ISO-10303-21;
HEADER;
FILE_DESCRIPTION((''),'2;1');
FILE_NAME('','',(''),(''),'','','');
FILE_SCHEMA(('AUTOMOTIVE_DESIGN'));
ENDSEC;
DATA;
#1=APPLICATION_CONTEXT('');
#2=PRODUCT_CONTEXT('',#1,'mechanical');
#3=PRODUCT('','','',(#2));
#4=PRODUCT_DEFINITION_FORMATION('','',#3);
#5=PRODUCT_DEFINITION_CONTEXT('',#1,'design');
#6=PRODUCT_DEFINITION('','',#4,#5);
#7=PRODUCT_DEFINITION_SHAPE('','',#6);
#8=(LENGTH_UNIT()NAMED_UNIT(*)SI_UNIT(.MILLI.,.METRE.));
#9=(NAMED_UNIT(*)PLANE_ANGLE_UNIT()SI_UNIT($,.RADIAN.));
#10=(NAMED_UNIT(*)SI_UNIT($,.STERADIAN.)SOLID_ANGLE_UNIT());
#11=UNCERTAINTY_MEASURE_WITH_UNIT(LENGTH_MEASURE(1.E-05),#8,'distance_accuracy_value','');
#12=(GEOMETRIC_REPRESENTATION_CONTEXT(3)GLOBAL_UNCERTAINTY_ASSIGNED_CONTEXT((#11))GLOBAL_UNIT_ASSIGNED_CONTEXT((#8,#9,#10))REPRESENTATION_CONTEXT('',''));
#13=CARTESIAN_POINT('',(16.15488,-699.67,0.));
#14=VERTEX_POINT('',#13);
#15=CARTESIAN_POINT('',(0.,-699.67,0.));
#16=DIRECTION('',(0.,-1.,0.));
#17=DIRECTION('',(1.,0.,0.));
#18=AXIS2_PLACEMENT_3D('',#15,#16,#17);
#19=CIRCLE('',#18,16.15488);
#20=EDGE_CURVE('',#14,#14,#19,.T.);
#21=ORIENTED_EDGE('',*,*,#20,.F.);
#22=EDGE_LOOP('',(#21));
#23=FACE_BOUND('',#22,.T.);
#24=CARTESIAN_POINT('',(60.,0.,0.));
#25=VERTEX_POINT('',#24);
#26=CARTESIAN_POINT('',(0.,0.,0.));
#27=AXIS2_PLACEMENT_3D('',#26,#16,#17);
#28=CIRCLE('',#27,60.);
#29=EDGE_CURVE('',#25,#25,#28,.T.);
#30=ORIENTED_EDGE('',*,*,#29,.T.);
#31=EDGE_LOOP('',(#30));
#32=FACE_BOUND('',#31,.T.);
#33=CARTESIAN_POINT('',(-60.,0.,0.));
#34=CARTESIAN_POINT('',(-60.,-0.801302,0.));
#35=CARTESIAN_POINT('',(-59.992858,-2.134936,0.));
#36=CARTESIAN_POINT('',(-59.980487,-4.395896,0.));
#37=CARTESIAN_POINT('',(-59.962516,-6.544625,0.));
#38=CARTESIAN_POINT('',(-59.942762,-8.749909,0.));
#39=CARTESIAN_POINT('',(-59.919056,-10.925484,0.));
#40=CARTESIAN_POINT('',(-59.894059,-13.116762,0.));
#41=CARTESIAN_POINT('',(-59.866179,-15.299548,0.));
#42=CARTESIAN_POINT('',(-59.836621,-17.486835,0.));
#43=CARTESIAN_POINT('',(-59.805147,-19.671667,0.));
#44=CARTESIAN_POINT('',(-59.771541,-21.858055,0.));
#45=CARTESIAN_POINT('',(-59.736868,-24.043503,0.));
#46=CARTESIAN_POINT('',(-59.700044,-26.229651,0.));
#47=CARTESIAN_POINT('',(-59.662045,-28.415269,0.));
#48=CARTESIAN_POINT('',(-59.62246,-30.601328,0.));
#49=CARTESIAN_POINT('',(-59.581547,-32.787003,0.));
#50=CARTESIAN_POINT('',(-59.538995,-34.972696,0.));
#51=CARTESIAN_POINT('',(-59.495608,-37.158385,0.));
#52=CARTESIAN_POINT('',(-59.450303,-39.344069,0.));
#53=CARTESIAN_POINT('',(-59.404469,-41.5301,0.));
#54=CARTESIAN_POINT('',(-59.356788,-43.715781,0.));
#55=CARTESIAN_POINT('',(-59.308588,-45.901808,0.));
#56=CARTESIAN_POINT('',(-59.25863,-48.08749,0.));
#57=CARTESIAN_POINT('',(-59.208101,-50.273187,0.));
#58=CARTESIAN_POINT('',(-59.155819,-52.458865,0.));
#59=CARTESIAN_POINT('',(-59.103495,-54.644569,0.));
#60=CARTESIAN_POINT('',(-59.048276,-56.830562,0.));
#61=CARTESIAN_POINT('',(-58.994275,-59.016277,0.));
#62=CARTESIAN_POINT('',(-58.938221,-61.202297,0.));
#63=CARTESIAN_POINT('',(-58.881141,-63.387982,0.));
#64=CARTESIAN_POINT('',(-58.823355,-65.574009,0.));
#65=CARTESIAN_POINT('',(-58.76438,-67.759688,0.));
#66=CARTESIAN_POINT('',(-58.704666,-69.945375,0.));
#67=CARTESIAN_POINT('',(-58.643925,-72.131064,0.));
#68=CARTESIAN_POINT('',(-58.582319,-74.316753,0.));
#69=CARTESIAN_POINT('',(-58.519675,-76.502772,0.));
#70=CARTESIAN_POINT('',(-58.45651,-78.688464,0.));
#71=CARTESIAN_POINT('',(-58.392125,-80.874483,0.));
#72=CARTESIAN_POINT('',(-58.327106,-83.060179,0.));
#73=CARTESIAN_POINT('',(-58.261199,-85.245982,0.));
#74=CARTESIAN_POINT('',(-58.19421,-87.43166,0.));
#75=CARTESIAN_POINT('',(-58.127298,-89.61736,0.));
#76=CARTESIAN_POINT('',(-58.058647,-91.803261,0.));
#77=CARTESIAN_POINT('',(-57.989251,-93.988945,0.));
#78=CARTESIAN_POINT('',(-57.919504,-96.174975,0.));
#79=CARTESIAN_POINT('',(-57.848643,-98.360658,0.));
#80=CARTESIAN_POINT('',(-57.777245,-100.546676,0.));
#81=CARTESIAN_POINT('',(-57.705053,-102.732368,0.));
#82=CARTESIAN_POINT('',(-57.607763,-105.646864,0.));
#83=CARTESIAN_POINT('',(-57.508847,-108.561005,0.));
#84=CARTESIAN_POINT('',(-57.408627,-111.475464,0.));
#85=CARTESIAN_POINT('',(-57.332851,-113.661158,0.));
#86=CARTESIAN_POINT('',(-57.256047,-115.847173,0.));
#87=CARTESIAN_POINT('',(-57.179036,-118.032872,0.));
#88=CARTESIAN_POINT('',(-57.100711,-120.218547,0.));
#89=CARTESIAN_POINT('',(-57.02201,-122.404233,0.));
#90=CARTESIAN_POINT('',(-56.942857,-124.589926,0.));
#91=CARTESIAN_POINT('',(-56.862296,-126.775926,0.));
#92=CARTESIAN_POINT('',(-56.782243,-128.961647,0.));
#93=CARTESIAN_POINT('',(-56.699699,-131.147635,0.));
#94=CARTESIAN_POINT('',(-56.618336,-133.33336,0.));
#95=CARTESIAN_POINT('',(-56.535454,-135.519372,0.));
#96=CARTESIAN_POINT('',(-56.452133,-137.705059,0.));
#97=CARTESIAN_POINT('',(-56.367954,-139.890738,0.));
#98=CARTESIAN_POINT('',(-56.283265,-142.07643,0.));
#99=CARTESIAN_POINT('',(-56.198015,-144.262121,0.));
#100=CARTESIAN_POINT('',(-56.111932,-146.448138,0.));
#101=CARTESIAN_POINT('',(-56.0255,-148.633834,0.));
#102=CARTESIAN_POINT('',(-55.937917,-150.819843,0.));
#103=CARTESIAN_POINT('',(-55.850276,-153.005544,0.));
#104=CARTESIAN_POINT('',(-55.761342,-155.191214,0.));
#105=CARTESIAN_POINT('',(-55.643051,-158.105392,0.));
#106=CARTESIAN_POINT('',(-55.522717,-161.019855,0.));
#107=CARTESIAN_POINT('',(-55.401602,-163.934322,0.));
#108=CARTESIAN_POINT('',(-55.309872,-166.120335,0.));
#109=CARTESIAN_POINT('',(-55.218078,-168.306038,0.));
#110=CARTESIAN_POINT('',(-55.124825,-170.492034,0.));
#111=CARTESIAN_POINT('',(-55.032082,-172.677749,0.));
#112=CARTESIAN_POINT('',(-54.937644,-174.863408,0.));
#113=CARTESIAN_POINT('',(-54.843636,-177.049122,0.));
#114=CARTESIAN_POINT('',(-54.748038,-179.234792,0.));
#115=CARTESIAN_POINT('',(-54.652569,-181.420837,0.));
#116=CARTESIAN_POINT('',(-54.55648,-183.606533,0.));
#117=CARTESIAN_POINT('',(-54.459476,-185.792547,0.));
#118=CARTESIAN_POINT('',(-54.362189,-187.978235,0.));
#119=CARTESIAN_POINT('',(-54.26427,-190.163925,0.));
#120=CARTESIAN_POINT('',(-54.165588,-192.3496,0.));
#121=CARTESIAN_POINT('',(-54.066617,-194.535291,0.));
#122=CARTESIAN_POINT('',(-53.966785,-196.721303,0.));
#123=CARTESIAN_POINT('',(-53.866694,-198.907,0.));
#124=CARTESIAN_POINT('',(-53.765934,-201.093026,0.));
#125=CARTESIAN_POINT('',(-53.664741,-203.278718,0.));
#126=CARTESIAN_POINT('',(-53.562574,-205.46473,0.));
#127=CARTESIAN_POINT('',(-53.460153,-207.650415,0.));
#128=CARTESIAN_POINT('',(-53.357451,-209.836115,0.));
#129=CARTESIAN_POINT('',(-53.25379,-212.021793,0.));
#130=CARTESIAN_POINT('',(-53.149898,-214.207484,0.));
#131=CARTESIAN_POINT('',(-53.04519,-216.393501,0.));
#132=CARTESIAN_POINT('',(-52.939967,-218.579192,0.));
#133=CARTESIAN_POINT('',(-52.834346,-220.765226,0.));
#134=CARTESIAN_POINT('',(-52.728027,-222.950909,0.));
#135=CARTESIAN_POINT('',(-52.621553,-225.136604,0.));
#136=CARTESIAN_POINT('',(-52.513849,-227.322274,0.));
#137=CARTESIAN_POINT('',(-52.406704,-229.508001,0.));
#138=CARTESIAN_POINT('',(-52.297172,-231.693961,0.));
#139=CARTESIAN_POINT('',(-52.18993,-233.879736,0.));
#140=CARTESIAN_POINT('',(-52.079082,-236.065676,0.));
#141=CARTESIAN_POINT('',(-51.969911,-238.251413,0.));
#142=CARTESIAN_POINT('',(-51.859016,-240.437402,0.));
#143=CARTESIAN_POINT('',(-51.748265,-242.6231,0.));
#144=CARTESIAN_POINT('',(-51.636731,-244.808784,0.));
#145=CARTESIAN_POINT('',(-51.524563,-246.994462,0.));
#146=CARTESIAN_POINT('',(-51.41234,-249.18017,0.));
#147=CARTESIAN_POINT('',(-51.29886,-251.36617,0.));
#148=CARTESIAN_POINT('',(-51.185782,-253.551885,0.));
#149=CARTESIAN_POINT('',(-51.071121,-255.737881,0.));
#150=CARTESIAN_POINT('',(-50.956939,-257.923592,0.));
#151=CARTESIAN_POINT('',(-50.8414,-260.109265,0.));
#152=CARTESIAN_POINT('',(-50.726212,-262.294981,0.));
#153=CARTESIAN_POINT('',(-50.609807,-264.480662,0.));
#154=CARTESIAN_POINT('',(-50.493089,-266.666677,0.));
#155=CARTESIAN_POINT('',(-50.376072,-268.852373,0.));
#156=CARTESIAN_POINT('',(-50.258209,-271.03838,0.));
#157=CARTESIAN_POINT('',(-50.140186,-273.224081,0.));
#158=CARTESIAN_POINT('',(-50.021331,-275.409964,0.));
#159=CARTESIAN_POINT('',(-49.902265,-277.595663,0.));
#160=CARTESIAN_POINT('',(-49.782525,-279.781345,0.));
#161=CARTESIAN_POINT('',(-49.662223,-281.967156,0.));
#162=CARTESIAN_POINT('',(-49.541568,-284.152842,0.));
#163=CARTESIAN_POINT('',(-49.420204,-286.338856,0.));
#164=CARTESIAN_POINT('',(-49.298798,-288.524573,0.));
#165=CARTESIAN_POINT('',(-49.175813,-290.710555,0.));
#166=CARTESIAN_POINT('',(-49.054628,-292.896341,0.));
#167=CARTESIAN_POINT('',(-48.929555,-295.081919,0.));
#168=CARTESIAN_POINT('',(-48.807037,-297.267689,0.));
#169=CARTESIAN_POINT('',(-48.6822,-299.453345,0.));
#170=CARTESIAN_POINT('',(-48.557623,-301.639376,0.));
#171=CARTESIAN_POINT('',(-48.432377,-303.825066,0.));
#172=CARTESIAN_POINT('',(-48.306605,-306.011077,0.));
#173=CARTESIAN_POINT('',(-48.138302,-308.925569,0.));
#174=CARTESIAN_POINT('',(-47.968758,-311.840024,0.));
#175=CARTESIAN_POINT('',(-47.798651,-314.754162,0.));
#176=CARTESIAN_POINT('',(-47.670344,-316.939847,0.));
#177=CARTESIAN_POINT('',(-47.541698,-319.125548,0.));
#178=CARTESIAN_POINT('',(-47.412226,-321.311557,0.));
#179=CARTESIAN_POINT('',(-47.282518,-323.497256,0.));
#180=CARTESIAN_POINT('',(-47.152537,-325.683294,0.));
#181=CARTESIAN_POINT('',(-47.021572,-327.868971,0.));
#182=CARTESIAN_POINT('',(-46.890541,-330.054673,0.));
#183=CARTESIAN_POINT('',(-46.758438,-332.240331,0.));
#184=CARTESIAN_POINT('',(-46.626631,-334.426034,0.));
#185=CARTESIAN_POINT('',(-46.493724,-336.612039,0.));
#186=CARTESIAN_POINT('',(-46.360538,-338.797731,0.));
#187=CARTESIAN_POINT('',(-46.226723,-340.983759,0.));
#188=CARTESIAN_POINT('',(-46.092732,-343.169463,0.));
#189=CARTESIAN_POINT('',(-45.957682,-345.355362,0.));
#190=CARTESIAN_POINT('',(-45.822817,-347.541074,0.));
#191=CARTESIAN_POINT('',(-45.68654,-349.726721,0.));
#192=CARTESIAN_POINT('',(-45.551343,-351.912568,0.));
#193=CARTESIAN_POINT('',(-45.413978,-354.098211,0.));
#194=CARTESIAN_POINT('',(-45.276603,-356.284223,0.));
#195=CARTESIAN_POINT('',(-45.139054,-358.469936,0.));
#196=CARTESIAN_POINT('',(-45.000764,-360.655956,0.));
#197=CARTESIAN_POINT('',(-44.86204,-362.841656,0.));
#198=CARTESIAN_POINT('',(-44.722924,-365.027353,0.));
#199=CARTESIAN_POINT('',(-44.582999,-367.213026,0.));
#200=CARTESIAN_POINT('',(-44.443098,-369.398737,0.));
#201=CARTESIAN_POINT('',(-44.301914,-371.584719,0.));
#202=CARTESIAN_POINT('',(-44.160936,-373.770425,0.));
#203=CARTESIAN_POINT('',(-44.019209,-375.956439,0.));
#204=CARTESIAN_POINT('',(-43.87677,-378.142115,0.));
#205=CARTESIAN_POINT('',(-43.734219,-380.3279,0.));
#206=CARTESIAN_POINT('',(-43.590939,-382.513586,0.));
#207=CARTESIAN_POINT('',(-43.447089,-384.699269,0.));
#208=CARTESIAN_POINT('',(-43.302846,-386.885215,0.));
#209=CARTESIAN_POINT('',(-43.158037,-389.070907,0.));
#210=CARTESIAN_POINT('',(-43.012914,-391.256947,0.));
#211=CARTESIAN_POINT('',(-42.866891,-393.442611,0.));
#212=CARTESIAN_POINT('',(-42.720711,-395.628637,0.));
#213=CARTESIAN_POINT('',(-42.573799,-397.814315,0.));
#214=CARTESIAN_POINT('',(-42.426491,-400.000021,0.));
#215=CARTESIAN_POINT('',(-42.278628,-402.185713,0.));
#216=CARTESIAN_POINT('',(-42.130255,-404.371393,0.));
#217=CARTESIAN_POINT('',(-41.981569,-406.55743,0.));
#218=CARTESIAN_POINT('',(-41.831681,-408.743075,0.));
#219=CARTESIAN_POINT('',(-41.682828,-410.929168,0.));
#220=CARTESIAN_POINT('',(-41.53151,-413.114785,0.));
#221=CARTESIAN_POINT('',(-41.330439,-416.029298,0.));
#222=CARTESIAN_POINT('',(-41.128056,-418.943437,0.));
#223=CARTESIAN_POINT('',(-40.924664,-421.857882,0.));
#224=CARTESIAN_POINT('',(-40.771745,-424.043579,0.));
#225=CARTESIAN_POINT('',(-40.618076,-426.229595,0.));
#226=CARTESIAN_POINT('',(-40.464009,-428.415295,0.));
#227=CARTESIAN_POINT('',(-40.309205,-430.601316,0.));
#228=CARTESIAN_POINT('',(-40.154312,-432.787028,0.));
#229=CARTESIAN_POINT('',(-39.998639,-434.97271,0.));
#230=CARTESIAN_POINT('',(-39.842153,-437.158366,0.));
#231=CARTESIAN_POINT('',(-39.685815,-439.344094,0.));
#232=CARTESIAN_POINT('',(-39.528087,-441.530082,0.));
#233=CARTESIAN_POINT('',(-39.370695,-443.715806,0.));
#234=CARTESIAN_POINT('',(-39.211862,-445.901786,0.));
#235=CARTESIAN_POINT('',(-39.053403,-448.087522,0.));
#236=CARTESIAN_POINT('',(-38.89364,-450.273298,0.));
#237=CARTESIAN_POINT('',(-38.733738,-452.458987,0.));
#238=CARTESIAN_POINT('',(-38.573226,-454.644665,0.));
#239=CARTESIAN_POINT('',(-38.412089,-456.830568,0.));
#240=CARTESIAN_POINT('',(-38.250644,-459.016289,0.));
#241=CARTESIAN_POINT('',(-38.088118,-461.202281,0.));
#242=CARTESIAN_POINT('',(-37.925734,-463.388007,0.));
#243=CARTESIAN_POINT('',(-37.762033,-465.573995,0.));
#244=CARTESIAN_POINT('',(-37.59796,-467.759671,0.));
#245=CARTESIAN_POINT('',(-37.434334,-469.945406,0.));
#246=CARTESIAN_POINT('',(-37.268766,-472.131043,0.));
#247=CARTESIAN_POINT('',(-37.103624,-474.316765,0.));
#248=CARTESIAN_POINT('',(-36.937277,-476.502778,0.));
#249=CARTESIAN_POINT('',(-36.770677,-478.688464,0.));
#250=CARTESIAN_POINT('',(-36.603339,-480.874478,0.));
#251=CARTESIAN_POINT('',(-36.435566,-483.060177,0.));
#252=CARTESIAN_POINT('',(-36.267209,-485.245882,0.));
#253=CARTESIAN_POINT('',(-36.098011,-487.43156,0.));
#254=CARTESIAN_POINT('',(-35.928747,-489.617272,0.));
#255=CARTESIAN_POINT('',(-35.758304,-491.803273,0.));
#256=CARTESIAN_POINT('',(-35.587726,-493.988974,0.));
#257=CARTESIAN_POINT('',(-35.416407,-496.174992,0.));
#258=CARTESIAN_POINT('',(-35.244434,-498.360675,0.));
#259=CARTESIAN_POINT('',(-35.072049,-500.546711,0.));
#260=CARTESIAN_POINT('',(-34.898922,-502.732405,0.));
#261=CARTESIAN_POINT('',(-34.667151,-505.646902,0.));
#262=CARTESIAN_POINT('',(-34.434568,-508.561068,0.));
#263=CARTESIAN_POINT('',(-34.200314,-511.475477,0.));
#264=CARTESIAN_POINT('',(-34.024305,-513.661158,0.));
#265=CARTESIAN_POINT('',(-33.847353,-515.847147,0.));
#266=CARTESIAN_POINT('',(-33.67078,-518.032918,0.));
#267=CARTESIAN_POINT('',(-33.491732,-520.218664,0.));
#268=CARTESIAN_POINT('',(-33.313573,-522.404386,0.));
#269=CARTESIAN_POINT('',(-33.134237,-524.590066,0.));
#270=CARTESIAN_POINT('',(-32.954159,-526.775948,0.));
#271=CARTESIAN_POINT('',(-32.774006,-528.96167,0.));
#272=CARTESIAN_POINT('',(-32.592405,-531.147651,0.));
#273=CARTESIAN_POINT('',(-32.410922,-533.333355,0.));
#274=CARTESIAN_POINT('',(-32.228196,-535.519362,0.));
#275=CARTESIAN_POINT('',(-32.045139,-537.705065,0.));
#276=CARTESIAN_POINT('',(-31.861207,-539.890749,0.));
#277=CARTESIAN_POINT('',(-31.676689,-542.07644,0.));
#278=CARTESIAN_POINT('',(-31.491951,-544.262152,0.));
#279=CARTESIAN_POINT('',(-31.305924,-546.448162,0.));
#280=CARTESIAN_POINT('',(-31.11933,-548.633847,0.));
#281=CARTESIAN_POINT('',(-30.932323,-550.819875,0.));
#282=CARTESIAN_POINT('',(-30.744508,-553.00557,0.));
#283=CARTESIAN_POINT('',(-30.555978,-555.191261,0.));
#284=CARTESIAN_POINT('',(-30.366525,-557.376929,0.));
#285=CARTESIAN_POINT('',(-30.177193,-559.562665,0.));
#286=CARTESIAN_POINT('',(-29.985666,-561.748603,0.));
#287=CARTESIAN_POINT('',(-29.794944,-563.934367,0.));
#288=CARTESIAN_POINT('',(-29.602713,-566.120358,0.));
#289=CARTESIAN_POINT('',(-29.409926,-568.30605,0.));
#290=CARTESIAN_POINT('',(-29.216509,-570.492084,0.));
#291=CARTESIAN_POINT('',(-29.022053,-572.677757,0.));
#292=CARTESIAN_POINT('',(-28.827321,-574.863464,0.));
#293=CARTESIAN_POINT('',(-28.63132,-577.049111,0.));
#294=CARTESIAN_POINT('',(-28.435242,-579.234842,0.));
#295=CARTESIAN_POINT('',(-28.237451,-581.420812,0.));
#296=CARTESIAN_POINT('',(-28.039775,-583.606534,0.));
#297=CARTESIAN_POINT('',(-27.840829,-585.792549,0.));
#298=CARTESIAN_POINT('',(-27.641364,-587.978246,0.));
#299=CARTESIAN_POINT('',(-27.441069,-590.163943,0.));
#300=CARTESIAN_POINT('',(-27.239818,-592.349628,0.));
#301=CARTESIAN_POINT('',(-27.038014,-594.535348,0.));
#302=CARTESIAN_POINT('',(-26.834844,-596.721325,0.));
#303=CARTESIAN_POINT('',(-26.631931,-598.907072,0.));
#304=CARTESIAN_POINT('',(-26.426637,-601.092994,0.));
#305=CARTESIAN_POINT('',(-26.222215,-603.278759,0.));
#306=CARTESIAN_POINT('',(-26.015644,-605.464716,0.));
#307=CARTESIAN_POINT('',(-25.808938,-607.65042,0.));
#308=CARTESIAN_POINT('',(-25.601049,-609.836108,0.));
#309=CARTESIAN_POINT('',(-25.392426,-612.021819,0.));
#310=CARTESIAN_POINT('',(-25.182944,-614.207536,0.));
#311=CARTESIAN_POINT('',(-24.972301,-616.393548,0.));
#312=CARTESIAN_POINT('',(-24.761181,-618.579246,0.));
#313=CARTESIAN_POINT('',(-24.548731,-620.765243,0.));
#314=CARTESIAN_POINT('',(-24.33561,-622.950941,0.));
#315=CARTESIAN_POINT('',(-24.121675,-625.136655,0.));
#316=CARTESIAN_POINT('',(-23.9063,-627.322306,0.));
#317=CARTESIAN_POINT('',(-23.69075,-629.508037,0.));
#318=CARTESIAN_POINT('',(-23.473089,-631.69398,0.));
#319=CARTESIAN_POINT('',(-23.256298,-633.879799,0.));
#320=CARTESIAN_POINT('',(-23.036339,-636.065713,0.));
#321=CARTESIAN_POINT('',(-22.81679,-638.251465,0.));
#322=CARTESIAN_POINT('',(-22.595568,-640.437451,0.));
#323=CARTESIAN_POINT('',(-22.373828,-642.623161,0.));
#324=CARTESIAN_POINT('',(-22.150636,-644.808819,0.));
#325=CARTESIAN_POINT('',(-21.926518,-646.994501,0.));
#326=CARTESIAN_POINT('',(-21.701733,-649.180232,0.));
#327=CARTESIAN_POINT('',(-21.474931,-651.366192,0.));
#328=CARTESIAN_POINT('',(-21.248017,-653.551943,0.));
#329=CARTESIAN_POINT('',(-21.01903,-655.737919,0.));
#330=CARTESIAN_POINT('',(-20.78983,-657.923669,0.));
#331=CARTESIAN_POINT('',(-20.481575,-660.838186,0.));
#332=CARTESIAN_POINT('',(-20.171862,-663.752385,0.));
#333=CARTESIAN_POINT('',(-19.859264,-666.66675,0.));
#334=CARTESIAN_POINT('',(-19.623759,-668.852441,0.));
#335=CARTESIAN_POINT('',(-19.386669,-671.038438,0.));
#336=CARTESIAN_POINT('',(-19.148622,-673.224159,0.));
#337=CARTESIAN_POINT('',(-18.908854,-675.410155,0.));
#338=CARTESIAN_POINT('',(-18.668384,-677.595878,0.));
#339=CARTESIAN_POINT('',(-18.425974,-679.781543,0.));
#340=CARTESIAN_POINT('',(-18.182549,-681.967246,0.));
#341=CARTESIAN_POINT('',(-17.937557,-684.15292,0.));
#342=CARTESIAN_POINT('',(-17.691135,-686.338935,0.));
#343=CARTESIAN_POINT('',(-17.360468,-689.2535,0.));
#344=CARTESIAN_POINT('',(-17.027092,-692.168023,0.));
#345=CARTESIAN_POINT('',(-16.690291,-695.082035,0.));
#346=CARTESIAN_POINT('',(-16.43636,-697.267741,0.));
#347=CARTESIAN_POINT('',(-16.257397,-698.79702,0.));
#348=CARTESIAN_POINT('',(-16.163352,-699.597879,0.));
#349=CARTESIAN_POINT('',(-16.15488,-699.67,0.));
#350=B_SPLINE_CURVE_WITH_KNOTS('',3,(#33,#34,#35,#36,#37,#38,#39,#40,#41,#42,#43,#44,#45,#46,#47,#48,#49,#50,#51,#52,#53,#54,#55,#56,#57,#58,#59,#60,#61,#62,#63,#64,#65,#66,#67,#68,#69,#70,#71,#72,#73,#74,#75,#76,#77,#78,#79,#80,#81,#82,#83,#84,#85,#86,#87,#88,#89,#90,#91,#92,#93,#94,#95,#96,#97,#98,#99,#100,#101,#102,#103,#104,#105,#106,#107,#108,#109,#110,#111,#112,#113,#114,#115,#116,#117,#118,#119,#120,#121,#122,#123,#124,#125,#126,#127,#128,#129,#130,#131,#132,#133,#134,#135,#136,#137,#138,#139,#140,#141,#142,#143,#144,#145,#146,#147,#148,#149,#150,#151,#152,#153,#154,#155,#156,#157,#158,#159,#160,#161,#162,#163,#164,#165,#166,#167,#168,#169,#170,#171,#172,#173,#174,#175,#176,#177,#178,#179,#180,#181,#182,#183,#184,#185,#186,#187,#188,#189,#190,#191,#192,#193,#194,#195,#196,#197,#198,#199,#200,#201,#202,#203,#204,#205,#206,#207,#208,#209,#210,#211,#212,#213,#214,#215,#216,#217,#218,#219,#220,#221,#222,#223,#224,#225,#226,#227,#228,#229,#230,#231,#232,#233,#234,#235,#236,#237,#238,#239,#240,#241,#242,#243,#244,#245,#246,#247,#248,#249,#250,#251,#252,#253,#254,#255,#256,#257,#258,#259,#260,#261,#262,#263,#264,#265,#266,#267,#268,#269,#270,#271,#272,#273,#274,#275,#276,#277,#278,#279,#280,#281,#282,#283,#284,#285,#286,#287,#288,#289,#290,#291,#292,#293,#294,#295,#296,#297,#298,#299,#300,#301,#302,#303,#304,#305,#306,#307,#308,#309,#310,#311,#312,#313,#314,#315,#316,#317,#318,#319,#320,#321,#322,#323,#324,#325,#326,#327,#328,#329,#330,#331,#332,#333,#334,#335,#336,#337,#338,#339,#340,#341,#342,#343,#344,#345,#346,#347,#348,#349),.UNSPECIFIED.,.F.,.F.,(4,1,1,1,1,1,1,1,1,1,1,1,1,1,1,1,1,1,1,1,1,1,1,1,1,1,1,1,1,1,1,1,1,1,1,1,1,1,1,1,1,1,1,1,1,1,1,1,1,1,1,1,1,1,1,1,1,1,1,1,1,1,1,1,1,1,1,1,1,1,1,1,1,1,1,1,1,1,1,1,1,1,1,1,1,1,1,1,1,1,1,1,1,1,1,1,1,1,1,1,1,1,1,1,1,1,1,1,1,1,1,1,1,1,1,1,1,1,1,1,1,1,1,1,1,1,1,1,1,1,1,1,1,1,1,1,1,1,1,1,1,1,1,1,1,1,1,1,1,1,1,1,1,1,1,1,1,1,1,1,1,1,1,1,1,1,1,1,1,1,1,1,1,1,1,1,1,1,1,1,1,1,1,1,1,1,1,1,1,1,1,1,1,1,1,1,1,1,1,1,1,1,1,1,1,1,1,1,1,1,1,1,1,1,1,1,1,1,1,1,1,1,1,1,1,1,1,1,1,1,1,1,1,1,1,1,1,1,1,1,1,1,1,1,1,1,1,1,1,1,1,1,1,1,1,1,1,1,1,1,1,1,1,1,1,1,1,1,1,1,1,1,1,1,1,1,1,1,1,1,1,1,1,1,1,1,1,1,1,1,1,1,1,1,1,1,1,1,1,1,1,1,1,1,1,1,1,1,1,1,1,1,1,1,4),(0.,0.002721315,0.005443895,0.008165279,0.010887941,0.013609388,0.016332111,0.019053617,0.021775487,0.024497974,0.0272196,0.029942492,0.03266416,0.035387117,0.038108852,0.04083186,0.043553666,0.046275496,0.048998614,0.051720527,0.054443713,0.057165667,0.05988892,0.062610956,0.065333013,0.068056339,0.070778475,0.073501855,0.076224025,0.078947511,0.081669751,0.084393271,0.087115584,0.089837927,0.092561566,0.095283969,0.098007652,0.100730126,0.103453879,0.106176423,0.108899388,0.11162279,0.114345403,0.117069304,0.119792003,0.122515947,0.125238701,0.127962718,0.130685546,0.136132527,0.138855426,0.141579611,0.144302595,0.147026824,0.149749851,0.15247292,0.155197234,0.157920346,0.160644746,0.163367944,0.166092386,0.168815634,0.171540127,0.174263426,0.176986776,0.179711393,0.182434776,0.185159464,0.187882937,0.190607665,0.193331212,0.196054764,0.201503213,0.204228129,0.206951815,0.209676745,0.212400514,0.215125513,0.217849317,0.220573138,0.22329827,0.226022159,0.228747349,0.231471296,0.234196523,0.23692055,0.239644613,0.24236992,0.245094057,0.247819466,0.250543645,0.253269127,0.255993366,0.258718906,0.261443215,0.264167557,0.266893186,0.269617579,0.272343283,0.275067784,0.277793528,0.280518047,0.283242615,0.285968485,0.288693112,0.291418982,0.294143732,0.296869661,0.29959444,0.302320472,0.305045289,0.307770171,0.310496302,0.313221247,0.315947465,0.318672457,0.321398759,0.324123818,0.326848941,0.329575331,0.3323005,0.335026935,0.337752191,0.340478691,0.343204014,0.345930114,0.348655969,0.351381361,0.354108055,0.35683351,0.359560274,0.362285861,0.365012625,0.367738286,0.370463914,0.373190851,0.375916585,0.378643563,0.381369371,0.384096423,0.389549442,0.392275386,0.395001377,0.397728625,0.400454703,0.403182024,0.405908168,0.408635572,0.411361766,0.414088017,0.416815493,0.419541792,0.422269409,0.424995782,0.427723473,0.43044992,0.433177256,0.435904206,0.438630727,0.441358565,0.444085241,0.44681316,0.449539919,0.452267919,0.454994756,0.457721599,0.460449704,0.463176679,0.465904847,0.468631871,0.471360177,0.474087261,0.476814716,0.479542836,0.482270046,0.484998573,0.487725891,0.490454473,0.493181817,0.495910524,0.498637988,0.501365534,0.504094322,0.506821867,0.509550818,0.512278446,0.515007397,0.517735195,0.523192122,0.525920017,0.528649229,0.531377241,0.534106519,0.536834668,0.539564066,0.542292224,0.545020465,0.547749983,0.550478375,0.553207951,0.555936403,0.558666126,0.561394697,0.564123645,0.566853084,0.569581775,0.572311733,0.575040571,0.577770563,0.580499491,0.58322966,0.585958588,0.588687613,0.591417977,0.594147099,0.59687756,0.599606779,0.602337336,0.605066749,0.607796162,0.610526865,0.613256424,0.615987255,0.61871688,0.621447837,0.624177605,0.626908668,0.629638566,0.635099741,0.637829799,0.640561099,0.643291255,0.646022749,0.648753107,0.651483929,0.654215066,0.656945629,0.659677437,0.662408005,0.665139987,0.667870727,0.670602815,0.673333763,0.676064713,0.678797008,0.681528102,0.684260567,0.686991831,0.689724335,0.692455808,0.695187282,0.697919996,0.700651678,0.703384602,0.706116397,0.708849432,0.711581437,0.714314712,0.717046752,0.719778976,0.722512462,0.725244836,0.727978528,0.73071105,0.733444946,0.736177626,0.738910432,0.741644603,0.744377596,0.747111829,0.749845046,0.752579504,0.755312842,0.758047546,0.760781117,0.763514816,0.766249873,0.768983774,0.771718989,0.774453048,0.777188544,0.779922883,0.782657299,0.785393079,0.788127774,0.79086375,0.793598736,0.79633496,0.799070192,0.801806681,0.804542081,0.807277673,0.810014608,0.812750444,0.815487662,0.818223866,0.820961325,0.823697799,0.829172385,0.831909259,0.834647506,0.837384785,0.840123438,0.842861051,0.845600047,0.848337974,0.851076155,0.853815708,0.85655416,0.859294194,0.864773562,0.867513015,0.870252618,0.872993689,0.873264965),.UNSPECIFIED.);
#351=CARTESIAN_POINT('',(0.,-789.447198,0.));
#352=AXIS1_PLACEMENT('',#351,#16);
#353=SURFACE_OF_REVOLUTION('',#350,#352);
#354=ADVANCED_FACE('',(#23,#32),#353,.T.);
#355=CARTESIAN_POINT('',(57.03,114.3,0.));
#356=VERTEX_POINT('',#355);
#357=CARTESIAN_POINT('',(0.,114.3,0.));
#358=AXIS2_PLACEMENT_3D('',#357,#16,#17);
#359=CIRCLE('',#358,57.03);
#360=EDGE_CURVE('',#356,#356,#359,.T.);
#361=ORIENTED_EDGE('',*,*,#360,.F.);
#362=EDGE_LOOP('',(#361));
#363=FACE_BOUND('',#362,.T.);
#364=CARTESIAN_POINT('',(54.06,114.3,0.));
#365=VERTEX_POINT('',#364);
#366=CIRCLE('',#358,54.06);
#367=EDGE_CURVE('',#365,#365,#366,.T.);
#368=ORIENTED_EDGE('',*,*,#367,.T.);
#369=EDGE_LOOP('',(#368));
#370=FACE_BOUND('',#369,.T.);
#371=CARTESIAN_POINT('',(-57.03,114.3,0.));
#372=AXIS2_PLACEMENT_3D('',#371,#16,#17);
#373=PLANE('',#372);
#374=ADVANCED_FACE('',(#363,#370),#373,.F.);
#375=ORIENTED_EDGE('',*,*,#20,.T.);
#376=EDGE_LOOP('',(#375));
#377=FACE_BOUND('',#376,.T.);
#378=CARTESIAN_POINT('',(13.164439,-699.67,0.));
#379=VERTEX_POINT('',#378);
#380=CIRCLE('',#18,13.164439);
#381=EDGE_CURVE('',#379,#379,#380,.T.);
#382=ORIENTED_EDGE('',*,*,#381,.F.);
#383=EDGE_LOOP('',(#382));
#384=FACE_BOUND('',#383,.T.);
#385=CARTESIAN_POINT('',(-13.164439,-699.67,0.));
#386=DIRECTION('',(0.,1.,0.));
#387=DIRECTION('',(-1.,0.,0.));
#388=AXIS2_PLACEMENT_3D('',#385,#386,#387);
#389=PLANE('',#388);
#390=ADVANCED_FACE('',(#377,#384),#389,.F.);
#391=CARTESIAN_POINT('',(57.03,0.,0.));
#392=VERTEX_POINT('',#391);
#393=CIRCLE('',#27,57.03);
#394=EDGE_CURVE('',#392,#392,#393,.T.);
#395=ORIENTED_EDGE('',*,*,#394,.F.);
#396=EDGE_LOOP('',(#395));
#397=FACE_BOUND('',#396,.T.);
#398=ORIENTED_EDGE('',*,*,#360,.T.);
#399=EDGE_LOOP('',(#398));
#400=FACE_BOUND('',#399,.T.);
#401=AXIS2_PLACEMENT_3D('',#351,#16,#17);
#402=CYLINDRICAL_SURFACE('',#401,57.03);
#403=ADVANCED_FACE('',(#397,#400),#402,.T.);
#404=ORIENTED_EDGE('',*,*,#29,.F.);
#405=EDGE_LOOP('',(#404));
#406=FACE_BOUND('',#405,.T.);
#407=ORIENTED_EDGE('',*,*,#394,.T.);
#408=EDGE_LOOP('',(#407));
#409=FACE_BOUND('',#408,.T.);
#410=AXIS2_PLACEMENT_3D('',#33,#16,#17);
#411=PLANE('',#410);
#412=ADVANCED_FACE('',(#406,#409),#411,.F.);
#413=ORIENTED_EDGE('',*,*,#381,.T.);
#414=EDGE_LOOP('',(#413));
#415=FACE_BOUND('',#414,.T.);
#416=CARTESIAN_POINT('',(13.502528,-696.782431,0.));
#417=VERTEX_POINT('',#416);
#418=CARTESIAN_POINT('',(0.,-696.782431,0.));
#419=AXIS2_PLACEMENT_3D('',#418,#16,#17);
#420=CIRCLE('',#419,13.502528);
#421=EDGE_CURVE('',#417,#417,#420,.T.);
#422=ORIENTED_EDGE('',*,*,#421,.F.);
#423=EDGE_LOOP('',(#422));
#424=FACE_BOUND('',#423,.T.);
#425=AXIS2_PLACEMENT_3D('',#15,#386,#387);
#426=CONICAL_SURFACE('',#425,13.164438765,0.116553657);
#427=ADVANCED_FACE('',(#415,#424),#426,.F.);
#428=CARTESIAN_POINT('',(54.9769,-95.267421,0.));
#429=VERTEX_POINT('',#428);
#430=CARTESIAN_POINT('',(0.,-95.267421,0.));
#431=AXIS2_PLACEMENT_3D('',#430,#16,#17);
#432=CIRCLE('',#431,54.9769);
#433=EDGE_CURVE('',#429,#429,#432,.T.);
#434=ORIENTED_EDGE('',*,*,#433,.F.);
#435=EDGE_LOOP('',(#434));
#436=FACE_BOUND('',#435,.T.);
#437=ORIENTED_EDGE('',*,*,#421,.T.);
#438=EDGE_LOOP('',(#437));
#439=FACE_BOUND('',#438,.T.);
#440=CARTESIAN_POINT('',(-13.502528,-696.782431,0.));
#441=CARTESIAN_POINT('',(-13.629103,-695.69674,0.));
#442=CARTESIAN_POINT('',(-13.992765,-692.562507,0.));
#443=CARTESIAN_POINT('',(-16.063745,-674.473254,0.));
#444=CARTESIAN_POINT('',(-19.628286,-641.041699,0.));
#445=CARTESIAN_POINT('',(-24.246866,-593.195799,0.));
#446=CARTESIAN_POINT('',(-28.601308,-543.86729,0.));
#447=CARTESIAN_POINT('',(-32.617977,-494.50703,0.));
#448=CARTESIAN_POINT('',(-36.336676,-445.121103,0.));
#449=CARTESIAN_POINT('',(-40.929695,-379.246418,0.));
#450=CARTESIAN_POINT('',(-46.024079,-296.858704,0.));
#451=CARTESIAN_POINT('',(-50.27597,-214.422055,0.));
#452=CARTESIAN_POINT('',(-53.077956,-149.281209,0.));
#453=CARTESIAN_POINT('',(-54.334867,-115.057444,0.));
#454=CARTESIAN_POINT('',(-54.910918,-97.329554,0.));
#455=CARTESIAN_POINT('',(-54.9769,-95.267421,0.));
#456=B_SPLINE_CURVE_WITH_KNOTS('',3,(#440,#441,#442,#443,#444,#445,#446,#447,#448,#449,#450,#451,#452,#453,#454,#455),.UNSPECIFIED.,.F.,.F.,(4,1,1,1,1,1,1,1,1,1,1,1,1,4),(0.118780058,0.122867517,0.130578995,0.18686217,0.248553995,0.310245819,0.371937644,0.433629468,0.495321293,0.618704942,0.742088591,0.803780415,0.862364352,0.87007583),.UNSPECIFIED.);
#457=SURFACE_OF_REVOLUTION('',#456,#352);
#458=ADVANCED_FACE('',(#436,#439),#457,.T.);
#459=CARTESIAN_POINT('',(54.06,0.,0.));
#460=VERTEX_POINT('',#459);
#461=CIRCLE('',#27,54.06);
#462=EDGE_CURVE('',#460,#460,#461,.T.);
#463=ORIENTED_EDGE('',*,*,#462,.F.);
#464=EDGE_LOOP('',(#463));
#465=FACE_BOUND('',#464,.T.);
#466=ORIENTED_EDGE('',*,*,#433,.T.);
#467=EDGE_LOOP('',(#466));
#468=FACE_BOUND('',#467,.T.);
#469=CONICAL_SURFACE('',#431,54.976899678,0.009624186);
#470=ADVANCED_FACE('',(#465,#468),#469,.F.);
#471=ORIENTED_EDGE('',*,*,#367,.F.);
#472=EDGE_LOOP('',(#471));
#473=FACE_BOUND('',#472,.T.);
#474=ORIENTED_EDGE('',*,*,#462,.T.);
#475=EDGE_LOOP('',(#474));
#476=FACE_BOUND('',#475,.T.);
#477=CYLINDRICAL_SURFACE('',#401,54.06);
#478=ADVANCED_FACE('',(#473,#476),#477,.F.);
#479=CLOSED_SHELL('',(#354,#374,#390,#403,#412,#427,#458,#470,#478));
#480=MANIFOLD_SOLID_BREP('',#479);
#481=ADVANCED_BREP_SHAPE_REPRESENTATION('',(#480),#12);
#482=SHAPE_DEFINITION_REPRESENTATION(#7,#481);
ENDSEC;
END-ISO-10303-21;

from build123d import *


with BuildPart() as part:
    # Sketch1 → Revolve2 (revolve)
    with BuildSketch(Plane.XY):
        with BuildLine():
            Line((-60, 0), (-57.030000005, 0))
            Line((-57.030000005, 0), (-57.030000005, 114.300000001))
            Line((-57.030000005, 114.300000001), (-54.060000005, 114.300000001))
            Line((-54.060000005, 114.300000001), (-54.060000005, 1e-09))
            Line((-54.060000005, 1e-09), (-54.976899678, -95.267420724))
            add(Edge.make_bspline(
                [(-54.976899678, -95.267420724), (-54.910918352, -97.329553616), (-54.334867215, -115.057444063), (-53.077955961, -149.281209118), (-50.275970448, -214.422054541), (-46.024079242, -296.858704346), (-40.929694817, -379.246418027), (-36.336675621, -445.121102939), (-32.617977146, -494.507030379), (-28.601307552, -543.867289656), (-24.246866319, -593.195799191), (-19.628286478, -641.041699054), (-16.063745057, -674.473253853), (-13.992765453, -692.562507303), (-13.629103424, -695.696740322), (-13.502527845, -696.782430891)],
                knots=[0.118780058, 0.118780058, 0.118780058, 0.118780058, 0.126491537, 0.185075474, 0.246767298, 0.370150947, 0.493534596, 0.555226421, 0.616918245, 0.67861007, 0.740301894, 0.801993719, 0.858276893, 0.865988371, 0.87007583, 0.87007583, 0.87007583, 0.87007583], degree=3))
            Line((-13.502527845, -696.782430891), (-13.164438765, -699.67))
            Line((-13.164438765, -699.67), (-16.1548803, -699.67))
            add(Edge.make_bspline(
                [(-60, 0), (-60, -0.801301824), (-59.992858014, -2.134935758), (-59.98048707, -4.395895866), (-59.96251556, -6.544624516), (-59.942761818, -8.749908515), (-59.919055681, -10.925483502), (-59.894059366, -13.116761755), (-59.866178739, -15.299547638), (-59.836621266, -17.48683519), (-59.80514679, -19.671667321), (-59.771541464, -21.858055356), (-59.736867908, -24.043503346), (-59.700043709, -26.229650559), (-59.66204493, -28.41526885), (-59.622459621, -30.601327879), (-59.581547217, -32.787003018), (-59.538995019, -34.972696398), (-59.495607768, -37.158385038), (-59.450302943, -39.34406904), (-59.404469233, -41.530099826), (-59.356787893, -43.715780933), (-59.308588024, -45.901808333), (-59.258630434, -48.087490166), (-59.208100543, -50.273187043), (-59.155819313, -52.458864623), (-59.103495156, -54.644569067), (-59.048276425, -56.830561965), (-58.994274985, -59.016276927), (-58.938221442, -61.202296633), (-58.881140769, -63.387981946), (-58.823355444, -65.574008856), (-58.764379524, -67.759688478), (-58.704665809, -69.945374772), (-58.643925455, -72.131063874), (-58.582319142, -74.316753088), (-58.519674699, -76.502771688), (-58.456509605, -78.688463984), (-58.392124534, -80.874483057), (-58.327106119, -83.060179384), (-58.261198983, -85.245982329), (-58.194209713, -87.431660434), (-58.127297802, -89.61736007), (-58.058647275, -91.803260902), (-57.989251169, -93.988944863), (-57.919504151, -96.174974634), (-57.848643133, -98.360657974), (-57.777245448, -100.546676496), (-57.705052501, -102.732368286), (-57.607762905, -105.646864011), (-57.508846666, -108.561004505), (-57.408627348, -111.475463532), (-57.332851064, -113.661158289), (-57.256046683, -115.847173485), (-57.179035511, -118.032871552), (-57.100710846, -120.218547193), (-57.022009698, -122.40423276), (-56.942857414, -124.589926107), (-56.862296371, -126.775926431), (-56.782243077, -128.96164674), (-56.699699006, -131.147635149), (-56.618336348, -133.333360228), (-56.535453881, -135.519371841), (-56.452132799, -137.705058585), (-56.367953748, -139.890737929), (-56.283265361, -142.076429794), (-56.19801461, -144.262121161), (-56.111932015, -146.448137697), (-56.025500016, -148.633833532), (-55.937916927, -150.819842926), (-55.850276009, -153.005543945), (-55.76134219, -155.191213723), (-55.643051191, -158.105392465), (-55.522717339, -161.019854888), (-55.401601937, -163.934321952), (-55.309872078, -166.120335129), (-55.218077571, -168.306038315), (-55.124824644, -170.492033851), (-55.032082371, -172.677748721), (-54.937643699, -174.863408092), (-54.843635874, -177.049121618), (-54.748038186, -179.234791682), (-54.652569374, -181.420836883), (-54.556479629, -183.606533338), (-54.459475917, -185.792547103), (-54.362188819, -187.978234727), (-54.264269964, -190.163924556), (-54.165587671, -192.349599766), (-54.066616508, -194.535290959), (-53.966784556, -196.721302604), (-53.866693946, -198.906999552), (-53.765933644, -201.093026138), (-53.664741488, -203.278718394), (-53.562574071, -205.464729689), (-53.46015287, -207.650414823), (-53.357451076, -209.836114668), (-53.25379016, -212.021793327), (-53.149897537, -214.207484038), (-53.045189805, -216.393500975), (-52.939966643, -218.579191869), (-52.834346122, -220.765225661), (-52.72802674, -222.95090942), (-52.621553388, -225.136604178), (-52.513848545, -227.32227415), (-52.40670358, -229.508001007), (-52.297171846, -231.693961127), (-52.189930068, -233.879735673), (-52.079082133, -236.065676373), (-51.969910846, -238.251412967), (-51.85901638, -240.437401634), (-51.748265493, -242.623099873), (-51.636731103, -244.808784209), (-51.524563121, -246.994461643), (-51.41233969, -249.180169949), (-51.298859714, -251.366169958), (-51.185781728, -253.551885484), (-51.071121402, -255.737881493), (-50.956939094, -257.923591641), (-50.841400016, -260.109265018), (-50.726212458, -262.29498087), (-50.609806822, -264.480661757), (-50.493089081, -266.666677341), (-50.376072117, -268.852372888), (-50.2582093, -271.038380358), (-50.140185668, -273.224081487), (-50.021331093, -275.409964495), (-49.902264979, -277.595663351), (-49.782525037, -279.781345211), (-49.662222809, -281.96715596), (-49.541568082, -284.152841674), (-49.420204402, -286.338856279), (-49.298798343, -288.524573428), (-49.175813178, -290.710555166), (-49.054627889, -292.896341283), (-48.929555276, -295.081919321), (-48.80703709, -297.267689436), (-48.682200389, -299.453344602), (-48.557622575, -301.63937574), (-48.432377268, -303.825065531), (-48.306604756, -306.011076632), (-48.138301508, -308.925568974), (-47.968757752, -311.840024396), (-47.798650693, -314.754161782), (-47.670344167, -316.939847051), (-47.541698169, -319.125548351), (-47.41222605, -321.311556797), (-47.282518137, -323.497255833), (-47.152537397, -325.68329376), (-47.021571672, -327.868970857), (-46.890540884, -330.05467291), (-46.758438058, -332.240330723), (-46.626631093, -334.426034491), (-46.493724324, -336.612038639), (-46.360537695, -338.797731393), (-46.226723482, -340.983758972), (-46.092732037, -343.169463313), (-45.957681737, -345.355362203), (-45.822817455, -347.541074097), (-45.686540199, -349.726720561), (-45.551343277, -351.912568316), (-45.413978364, -354.098210705), (-45.27660323, -356.284223198), (-45.139053758, -358.469936355), (-45.000763617, -360.655955619), (-44.86203954, -362.841656073), (-44.722923977, -365.027353453), (-44.582999362, -367.21302593), (-44.44309759, -369.398736621), (-44.301914301, -371.584719331), (-44.160935543, -373.770425312), (-44.019209139, -375.956439275), (-43.876769511, -378.142115164), (-43.734218837, -380.327899792), (-43.590938835, -382.513586347), (-43.447088586, -384.69926936), (-43.302846381, -386.885214629), (-43.158036869, -389.07090708), (-43.012913506, -391.256947279), (-42.866890616, -393.442611195), (-42.720711356, -395.628637304), (-42.57379855, -397.814315117), (-42.426490997, -400.000021171), (-42.278628488, -402.185713002), (-42.130254761, -404.371392804), (-41.981568615, -406.557429677), (-41.831681394, -408.743075027), (-41.682828376, -410.92916822), (-41.531510493, -413.114784676), (-41.330439397, -416.029298352), (-41.128056224, -418.943436932), (-40.924663592, -421.857882421), (-40.771744547, -424.043579315), (-40.618076428, -426.22959461), (-40.464009098, -428.415295234), (-40.309205215, -430.601315556), (-40.154312127, -432.787028349), (-39.99863944, -434.972710046), (-39.842152913, -437.158365607), (-39.685814825, -439.344094129), (-39.52808724, -441.530081544), (-39.370694913, -443.715806359), (-39.211862327, -445.901785529), (-39.053403335, -448.087522124), (-38.893639517, -450.273297547), (-38.733738096, -452.458987048), (-38.573226107, -454.644664914), (-38.41208941, -456.830568481), (-38.250643552, -459.016289263), (-38.088118005, -461.202280635), (-37.925733991, -463.388006805), (-37.762033172, -465.573994828), (-37.597960177, -467.759671106), (-37.434333947, -469.945406433), (-37.268766086, -472.131043433), (-37.103624375, -474.316764751), (-36.937277162, -476.502778388), (-36.770677476, -478.688464011), (-36.603339409, -480.874477936), (-36.435566057, -483.06017656), (-36.267208759, -485.245881682), (-36.098010633, -487.431559843), (-35.928747445, -489.617272102), (-35.758303916, -491.803273105), (-35.587725669, -493.988973654), (-35.416406694, -496.17499239), (-35.24443382, -498.360674999), (-35.072049118, -500.546710875), (-34.898922146, -502.732404615), (-34.667151047, -505.646902354), (-34.43456829, -508.561067682), (-34.200313769, -511.475477223), (-34.024304915, -513.661157965), (-33.847353496, -515.847147357), (-33.670779824, -518.032918232), (-33.491732112, -520.21866423), (-33.313572689, -522.404386438), (-33.134237451, -524.590066145), (-32.95415861, -526.775947698), (-32.774006064, -528.961669566), (-32.59240474, -531.147650911), (-32.410922159, -533.333354764), (-32.228195825, -535.51936234), (-32.045138628, -537.705064649), (-31.861206714, -539.890749257), (-31.67668942, -542.076440099), (-31.491950547, -544.262152097), (-31.305924361, -546.448161538), (-31.119329898, -548.633846995), (-30.932322619, -550.819875434), (-30.744507905, -553.005570214), (-30.555977806, -555.191260582), (-30.36652527, -557.376929049), (-30.177192953, -559.562665124), (-29.985666111, -561.748602994), (-29.794943847, -563.93436667), (-29.602713105, -566.120357514), (-29.409925869, -568.306050437), (-29.216509259, -570.492084484), (-29.02205264, -572.677756942), (-28.827321473, -574.863463769), (-28.631319546, -577.049111422), (-28.435242486, -579.234842067), (-28.237450587, -581.420811966), (-28.039775325, -583.606534105), (-27.840828887, -585.792549196), (-27.641363771, -587.978245938), (-27.441068518, -590.163943402), (-27.239817856, -592.349628243), (-27.0380143, -594.535347519), (-26.834843959, -596.721325459), (-26.631931269, -598.907071959), (-26.426637245, -601.092994458), (-26.222215448, -603.278758694), (-26.015644194, -605.4647156), (-25.808938096, -607.650420412), (-25.601048983, -609.836107743), (-25.392425956, -612.021819265), (-25.182943681, -614.207535647), (-24.972300709, -616.393547963), (-24.761180821, -618.579245775), (-24.54873058, -620.765243183), (-24.335610495, -622.950940724), (-24.121675392, -625.136655174), (-23.906299598, -627.322305823), (-23.690750483, -629.508036765), (-23.473088531, -631.693979902), (-23.256298117, -633.8797989), (-23.036339334, -636.065712517), (-22.816790067, -638.251465366), (-22.595568041, -640.437451396), (-22.37382784, -642.623161306), (-22.150636062, -644.808818844), (-21.926517879, -646.99450118), (-21.701733242, -649.180231976), (-21.474931493, -651.36619235), (-21.248017068, -653.551943093), (-21.019029725, -655.737918981), (-20.789829622, -657.923669499), (-20.481575316, -660.838186303), (-20.17186238, -663.752385107), (-19.859263751, -666.666750242), (-19.623758946, -668.852440953), (-19.386668524, -671.038438197), (-19.148621967, -673.224159459), (-18.908853729, -675.410154942), (-18.668383585, -677.595878389), (-18.4259741, -679.781542734), (-18.18254924, -681.967245551), (-17.937557318, -684.152919888), (-17.691134792, -686.338934942), (-17.360468135, -689.253500161), (-17.027092261, -692.168023287), (-16.690290755, -695.082034686), (-16.436360122, -697.267741079), (-16.257396502, -698.797019741), (-16.163352105, -699.59787912), (-16.1548803, -699.67)],
                knots=[0, 0, 0, 0, 0.002721315, 0.005443895, 0.008165279, 0.010887941, 0.013609388, 0.016332111, 0.019053617, 0.021775487, 0.024497974, 0.0272196, 0.029942492, 0.03266416, 0.035387117, 0.038108852, 0.04083186, 0.043553666, 0.046275496, 0.048998614, 0.051720527, 0.054443713, 0.057165667, 0.05988892, 0.062610956, 0.065333013, 0.068056339, 0.070778475, 0.073501855, 0.076224025, 0.078947511, 0.081669751, 0.084393271, 0.087115584, 0.089837927, 0.092561566, 0.095283969, 0.098007652, 0.100730126, 0.103453879, 0.106176423, 0.108899388, 0.11162279, 0.114345403, 0.117069304, 0.119792003, 0.122515947, 0.125238701, 0.127962718, 0.130685546, 0.136132527, 0.138855426, 0.141579611, 0.144302595, 0.147026824, 0.149749851, 0.15247292, 0.155197234, 0.157920346, 0.160644746, 0.163367944, 0.166092386, 0.168815634, 0.171540127, 0.174263426, 0.176986776, 0.179711393, 0.182434776, 0.185159464, 0.187882937, 0.190607665, 0.193331212, 0.196054764, 0.201503213, 0.204228129, 0.206951815, 0.209676745, 0.212400514, 0.215125513, 0.217849317, 0.220573138, 0.22329827, 0.226022159, 0.228747349, 0.231471296, 0.234196523, 0.23692055, 0.239644613, 0.24236992, 0.245094057, 0.247819466, 0.250543645, 0.253269127, 0.255993366, 0.258718906, 0.261443215, 0.264167557, 0.266893186, 0.269617579, 0.272343283, 0.275067784, 0.277793528, 0.280518047, 0.283242615, 0.285968485, 0.288693112, 0.291418982, 0.294143732, 0.296869661, 0.29959444, 0.302320472, 0.305045289, 0.307770171, 0.310496302, 0.313221247, 0.315947465, 0.318672457, 0.321398759, 0.324123818, 0.326848941, 0.329575331, 0.3323005, 0.335026935, 0.337752191, 0.340478691, 0.343204014, 0.345930114, 0.348655969, 0.351381361, 0.354108055, 0.35683351, 0.359560274, 0.362285861, 0.365012625, 0.367738286, 0.370463914, 0.373190851, 0.375916585, 0.378643563, 0.381369371, 0.384096423, 0.389549442, 0.392275386, 0.395001377, 0.397728625, 0.400454703, 0.403182024, 0.405908168, 0.408635572, 0.411361766, 0.414088017, 0.416815493, 0.419541792, 0.422269409, 0.424995782, 0.427723473, 0.43044992, 0.433177256, 0.435904206, 0.438630727, 0.441358565, 0.444085241, 0.44681316, 0.449539919, 0.452267919, 0.454994756, 0.457721599, 0.460449704, 0.463176679, 0.465904847, 0.468631871, 0.471360177, 0.474087261, 0.476814716, 0.479542836, 0.482270046, 0.484998573, 0.487725891, 0.490454473, 0.493181817, 0.495910524, 0.498637988, 0.501365534, 0.504094322, 0.506821867, 0.509550818, 0.512278446, 0.515007397, 0.517735195, 0.523192122, 0.525920017, 0.528649229, 0.531377241, 0.534106519, 0.536834668, 0.539564066, 0.542292224, 0.545020465, 0.547749983, 0.550478375, 0.553207951, 0.555936403, 0.558666126, 0.561394697, 0.564123645, 0.566853084, 0.569581775, 0.572311733, 0.575040571, 0.577770563, 0.580499491, 0.58322966, 0.585958588, 0.588687613, 0.591417977, 0.594147099, 0.59687756, 0.599606779, 0.602337336, 0.605066749, 0.607796162, 0.610526865, 0.613256424, 0.615987255, 0.61871688, 0.621447837, 0.624177605, 0.626908668, 0.629638566, 0.635099741, 0.637829799, 0.640561099, 0.643291255, 0.646022749, 0.648753107, 0.651483929, 0.654215066, 0.656945629, 0.659677437, 0.662408005, 0.665139987, 0.667870727, 0.670602815, 0.673333763, 0.676064713, 0.678797008, 0.681528102, 0.684260567, 0.686991831, 0.689724335, 0.692455808, 0.695187282, 0.697919996, 0.700651678, 0.703384602, 0.706116397, 0.708849432, 0.711581437, 0.714314712, 0.717046752, 0.719778976, 0.722512462, 0.725244836, 0.727978528, 0.73071105, 0.733444946, 0.736177626, 0.738910432, 0.741644603, 0.744377596, 0.747111829, 0.749845046, 0.752579504, 0.755312842, 0.758047546, 0.760781117, 0.763514816, 0.766249873, 0.768983774, 0.771718989, 0.774453048, 0.777188544, 0.779922883, 0.782657299, 0.785393079, 0.788127774, 0.79086375, 0.793598736, 0.79633496, 0.799070192, 0.801806681, 0.804542081, 0.807277673, 0.810014608, 0.812750444, 0.815487662, 0.818223866, 0.820961325, 0.823697799, 0.829172385, 0.831909259, 0.834647506, 0.837384785, 0.840123438, 0.842861051, 0.845600047, 0.848337974, 0.851076155, 0.853815708, 0.85655416, 0.859294194, 0.864773562, 0.867513015, 0.870252618, 0.872993689, 0.873264965, 0.873264965, 0.873264965, 0.873264965], degree=3))
        make_face()
    revolve(axis=Axis((0, -789.4471984, 0), (0, 1, 0)))


solid = part.part
